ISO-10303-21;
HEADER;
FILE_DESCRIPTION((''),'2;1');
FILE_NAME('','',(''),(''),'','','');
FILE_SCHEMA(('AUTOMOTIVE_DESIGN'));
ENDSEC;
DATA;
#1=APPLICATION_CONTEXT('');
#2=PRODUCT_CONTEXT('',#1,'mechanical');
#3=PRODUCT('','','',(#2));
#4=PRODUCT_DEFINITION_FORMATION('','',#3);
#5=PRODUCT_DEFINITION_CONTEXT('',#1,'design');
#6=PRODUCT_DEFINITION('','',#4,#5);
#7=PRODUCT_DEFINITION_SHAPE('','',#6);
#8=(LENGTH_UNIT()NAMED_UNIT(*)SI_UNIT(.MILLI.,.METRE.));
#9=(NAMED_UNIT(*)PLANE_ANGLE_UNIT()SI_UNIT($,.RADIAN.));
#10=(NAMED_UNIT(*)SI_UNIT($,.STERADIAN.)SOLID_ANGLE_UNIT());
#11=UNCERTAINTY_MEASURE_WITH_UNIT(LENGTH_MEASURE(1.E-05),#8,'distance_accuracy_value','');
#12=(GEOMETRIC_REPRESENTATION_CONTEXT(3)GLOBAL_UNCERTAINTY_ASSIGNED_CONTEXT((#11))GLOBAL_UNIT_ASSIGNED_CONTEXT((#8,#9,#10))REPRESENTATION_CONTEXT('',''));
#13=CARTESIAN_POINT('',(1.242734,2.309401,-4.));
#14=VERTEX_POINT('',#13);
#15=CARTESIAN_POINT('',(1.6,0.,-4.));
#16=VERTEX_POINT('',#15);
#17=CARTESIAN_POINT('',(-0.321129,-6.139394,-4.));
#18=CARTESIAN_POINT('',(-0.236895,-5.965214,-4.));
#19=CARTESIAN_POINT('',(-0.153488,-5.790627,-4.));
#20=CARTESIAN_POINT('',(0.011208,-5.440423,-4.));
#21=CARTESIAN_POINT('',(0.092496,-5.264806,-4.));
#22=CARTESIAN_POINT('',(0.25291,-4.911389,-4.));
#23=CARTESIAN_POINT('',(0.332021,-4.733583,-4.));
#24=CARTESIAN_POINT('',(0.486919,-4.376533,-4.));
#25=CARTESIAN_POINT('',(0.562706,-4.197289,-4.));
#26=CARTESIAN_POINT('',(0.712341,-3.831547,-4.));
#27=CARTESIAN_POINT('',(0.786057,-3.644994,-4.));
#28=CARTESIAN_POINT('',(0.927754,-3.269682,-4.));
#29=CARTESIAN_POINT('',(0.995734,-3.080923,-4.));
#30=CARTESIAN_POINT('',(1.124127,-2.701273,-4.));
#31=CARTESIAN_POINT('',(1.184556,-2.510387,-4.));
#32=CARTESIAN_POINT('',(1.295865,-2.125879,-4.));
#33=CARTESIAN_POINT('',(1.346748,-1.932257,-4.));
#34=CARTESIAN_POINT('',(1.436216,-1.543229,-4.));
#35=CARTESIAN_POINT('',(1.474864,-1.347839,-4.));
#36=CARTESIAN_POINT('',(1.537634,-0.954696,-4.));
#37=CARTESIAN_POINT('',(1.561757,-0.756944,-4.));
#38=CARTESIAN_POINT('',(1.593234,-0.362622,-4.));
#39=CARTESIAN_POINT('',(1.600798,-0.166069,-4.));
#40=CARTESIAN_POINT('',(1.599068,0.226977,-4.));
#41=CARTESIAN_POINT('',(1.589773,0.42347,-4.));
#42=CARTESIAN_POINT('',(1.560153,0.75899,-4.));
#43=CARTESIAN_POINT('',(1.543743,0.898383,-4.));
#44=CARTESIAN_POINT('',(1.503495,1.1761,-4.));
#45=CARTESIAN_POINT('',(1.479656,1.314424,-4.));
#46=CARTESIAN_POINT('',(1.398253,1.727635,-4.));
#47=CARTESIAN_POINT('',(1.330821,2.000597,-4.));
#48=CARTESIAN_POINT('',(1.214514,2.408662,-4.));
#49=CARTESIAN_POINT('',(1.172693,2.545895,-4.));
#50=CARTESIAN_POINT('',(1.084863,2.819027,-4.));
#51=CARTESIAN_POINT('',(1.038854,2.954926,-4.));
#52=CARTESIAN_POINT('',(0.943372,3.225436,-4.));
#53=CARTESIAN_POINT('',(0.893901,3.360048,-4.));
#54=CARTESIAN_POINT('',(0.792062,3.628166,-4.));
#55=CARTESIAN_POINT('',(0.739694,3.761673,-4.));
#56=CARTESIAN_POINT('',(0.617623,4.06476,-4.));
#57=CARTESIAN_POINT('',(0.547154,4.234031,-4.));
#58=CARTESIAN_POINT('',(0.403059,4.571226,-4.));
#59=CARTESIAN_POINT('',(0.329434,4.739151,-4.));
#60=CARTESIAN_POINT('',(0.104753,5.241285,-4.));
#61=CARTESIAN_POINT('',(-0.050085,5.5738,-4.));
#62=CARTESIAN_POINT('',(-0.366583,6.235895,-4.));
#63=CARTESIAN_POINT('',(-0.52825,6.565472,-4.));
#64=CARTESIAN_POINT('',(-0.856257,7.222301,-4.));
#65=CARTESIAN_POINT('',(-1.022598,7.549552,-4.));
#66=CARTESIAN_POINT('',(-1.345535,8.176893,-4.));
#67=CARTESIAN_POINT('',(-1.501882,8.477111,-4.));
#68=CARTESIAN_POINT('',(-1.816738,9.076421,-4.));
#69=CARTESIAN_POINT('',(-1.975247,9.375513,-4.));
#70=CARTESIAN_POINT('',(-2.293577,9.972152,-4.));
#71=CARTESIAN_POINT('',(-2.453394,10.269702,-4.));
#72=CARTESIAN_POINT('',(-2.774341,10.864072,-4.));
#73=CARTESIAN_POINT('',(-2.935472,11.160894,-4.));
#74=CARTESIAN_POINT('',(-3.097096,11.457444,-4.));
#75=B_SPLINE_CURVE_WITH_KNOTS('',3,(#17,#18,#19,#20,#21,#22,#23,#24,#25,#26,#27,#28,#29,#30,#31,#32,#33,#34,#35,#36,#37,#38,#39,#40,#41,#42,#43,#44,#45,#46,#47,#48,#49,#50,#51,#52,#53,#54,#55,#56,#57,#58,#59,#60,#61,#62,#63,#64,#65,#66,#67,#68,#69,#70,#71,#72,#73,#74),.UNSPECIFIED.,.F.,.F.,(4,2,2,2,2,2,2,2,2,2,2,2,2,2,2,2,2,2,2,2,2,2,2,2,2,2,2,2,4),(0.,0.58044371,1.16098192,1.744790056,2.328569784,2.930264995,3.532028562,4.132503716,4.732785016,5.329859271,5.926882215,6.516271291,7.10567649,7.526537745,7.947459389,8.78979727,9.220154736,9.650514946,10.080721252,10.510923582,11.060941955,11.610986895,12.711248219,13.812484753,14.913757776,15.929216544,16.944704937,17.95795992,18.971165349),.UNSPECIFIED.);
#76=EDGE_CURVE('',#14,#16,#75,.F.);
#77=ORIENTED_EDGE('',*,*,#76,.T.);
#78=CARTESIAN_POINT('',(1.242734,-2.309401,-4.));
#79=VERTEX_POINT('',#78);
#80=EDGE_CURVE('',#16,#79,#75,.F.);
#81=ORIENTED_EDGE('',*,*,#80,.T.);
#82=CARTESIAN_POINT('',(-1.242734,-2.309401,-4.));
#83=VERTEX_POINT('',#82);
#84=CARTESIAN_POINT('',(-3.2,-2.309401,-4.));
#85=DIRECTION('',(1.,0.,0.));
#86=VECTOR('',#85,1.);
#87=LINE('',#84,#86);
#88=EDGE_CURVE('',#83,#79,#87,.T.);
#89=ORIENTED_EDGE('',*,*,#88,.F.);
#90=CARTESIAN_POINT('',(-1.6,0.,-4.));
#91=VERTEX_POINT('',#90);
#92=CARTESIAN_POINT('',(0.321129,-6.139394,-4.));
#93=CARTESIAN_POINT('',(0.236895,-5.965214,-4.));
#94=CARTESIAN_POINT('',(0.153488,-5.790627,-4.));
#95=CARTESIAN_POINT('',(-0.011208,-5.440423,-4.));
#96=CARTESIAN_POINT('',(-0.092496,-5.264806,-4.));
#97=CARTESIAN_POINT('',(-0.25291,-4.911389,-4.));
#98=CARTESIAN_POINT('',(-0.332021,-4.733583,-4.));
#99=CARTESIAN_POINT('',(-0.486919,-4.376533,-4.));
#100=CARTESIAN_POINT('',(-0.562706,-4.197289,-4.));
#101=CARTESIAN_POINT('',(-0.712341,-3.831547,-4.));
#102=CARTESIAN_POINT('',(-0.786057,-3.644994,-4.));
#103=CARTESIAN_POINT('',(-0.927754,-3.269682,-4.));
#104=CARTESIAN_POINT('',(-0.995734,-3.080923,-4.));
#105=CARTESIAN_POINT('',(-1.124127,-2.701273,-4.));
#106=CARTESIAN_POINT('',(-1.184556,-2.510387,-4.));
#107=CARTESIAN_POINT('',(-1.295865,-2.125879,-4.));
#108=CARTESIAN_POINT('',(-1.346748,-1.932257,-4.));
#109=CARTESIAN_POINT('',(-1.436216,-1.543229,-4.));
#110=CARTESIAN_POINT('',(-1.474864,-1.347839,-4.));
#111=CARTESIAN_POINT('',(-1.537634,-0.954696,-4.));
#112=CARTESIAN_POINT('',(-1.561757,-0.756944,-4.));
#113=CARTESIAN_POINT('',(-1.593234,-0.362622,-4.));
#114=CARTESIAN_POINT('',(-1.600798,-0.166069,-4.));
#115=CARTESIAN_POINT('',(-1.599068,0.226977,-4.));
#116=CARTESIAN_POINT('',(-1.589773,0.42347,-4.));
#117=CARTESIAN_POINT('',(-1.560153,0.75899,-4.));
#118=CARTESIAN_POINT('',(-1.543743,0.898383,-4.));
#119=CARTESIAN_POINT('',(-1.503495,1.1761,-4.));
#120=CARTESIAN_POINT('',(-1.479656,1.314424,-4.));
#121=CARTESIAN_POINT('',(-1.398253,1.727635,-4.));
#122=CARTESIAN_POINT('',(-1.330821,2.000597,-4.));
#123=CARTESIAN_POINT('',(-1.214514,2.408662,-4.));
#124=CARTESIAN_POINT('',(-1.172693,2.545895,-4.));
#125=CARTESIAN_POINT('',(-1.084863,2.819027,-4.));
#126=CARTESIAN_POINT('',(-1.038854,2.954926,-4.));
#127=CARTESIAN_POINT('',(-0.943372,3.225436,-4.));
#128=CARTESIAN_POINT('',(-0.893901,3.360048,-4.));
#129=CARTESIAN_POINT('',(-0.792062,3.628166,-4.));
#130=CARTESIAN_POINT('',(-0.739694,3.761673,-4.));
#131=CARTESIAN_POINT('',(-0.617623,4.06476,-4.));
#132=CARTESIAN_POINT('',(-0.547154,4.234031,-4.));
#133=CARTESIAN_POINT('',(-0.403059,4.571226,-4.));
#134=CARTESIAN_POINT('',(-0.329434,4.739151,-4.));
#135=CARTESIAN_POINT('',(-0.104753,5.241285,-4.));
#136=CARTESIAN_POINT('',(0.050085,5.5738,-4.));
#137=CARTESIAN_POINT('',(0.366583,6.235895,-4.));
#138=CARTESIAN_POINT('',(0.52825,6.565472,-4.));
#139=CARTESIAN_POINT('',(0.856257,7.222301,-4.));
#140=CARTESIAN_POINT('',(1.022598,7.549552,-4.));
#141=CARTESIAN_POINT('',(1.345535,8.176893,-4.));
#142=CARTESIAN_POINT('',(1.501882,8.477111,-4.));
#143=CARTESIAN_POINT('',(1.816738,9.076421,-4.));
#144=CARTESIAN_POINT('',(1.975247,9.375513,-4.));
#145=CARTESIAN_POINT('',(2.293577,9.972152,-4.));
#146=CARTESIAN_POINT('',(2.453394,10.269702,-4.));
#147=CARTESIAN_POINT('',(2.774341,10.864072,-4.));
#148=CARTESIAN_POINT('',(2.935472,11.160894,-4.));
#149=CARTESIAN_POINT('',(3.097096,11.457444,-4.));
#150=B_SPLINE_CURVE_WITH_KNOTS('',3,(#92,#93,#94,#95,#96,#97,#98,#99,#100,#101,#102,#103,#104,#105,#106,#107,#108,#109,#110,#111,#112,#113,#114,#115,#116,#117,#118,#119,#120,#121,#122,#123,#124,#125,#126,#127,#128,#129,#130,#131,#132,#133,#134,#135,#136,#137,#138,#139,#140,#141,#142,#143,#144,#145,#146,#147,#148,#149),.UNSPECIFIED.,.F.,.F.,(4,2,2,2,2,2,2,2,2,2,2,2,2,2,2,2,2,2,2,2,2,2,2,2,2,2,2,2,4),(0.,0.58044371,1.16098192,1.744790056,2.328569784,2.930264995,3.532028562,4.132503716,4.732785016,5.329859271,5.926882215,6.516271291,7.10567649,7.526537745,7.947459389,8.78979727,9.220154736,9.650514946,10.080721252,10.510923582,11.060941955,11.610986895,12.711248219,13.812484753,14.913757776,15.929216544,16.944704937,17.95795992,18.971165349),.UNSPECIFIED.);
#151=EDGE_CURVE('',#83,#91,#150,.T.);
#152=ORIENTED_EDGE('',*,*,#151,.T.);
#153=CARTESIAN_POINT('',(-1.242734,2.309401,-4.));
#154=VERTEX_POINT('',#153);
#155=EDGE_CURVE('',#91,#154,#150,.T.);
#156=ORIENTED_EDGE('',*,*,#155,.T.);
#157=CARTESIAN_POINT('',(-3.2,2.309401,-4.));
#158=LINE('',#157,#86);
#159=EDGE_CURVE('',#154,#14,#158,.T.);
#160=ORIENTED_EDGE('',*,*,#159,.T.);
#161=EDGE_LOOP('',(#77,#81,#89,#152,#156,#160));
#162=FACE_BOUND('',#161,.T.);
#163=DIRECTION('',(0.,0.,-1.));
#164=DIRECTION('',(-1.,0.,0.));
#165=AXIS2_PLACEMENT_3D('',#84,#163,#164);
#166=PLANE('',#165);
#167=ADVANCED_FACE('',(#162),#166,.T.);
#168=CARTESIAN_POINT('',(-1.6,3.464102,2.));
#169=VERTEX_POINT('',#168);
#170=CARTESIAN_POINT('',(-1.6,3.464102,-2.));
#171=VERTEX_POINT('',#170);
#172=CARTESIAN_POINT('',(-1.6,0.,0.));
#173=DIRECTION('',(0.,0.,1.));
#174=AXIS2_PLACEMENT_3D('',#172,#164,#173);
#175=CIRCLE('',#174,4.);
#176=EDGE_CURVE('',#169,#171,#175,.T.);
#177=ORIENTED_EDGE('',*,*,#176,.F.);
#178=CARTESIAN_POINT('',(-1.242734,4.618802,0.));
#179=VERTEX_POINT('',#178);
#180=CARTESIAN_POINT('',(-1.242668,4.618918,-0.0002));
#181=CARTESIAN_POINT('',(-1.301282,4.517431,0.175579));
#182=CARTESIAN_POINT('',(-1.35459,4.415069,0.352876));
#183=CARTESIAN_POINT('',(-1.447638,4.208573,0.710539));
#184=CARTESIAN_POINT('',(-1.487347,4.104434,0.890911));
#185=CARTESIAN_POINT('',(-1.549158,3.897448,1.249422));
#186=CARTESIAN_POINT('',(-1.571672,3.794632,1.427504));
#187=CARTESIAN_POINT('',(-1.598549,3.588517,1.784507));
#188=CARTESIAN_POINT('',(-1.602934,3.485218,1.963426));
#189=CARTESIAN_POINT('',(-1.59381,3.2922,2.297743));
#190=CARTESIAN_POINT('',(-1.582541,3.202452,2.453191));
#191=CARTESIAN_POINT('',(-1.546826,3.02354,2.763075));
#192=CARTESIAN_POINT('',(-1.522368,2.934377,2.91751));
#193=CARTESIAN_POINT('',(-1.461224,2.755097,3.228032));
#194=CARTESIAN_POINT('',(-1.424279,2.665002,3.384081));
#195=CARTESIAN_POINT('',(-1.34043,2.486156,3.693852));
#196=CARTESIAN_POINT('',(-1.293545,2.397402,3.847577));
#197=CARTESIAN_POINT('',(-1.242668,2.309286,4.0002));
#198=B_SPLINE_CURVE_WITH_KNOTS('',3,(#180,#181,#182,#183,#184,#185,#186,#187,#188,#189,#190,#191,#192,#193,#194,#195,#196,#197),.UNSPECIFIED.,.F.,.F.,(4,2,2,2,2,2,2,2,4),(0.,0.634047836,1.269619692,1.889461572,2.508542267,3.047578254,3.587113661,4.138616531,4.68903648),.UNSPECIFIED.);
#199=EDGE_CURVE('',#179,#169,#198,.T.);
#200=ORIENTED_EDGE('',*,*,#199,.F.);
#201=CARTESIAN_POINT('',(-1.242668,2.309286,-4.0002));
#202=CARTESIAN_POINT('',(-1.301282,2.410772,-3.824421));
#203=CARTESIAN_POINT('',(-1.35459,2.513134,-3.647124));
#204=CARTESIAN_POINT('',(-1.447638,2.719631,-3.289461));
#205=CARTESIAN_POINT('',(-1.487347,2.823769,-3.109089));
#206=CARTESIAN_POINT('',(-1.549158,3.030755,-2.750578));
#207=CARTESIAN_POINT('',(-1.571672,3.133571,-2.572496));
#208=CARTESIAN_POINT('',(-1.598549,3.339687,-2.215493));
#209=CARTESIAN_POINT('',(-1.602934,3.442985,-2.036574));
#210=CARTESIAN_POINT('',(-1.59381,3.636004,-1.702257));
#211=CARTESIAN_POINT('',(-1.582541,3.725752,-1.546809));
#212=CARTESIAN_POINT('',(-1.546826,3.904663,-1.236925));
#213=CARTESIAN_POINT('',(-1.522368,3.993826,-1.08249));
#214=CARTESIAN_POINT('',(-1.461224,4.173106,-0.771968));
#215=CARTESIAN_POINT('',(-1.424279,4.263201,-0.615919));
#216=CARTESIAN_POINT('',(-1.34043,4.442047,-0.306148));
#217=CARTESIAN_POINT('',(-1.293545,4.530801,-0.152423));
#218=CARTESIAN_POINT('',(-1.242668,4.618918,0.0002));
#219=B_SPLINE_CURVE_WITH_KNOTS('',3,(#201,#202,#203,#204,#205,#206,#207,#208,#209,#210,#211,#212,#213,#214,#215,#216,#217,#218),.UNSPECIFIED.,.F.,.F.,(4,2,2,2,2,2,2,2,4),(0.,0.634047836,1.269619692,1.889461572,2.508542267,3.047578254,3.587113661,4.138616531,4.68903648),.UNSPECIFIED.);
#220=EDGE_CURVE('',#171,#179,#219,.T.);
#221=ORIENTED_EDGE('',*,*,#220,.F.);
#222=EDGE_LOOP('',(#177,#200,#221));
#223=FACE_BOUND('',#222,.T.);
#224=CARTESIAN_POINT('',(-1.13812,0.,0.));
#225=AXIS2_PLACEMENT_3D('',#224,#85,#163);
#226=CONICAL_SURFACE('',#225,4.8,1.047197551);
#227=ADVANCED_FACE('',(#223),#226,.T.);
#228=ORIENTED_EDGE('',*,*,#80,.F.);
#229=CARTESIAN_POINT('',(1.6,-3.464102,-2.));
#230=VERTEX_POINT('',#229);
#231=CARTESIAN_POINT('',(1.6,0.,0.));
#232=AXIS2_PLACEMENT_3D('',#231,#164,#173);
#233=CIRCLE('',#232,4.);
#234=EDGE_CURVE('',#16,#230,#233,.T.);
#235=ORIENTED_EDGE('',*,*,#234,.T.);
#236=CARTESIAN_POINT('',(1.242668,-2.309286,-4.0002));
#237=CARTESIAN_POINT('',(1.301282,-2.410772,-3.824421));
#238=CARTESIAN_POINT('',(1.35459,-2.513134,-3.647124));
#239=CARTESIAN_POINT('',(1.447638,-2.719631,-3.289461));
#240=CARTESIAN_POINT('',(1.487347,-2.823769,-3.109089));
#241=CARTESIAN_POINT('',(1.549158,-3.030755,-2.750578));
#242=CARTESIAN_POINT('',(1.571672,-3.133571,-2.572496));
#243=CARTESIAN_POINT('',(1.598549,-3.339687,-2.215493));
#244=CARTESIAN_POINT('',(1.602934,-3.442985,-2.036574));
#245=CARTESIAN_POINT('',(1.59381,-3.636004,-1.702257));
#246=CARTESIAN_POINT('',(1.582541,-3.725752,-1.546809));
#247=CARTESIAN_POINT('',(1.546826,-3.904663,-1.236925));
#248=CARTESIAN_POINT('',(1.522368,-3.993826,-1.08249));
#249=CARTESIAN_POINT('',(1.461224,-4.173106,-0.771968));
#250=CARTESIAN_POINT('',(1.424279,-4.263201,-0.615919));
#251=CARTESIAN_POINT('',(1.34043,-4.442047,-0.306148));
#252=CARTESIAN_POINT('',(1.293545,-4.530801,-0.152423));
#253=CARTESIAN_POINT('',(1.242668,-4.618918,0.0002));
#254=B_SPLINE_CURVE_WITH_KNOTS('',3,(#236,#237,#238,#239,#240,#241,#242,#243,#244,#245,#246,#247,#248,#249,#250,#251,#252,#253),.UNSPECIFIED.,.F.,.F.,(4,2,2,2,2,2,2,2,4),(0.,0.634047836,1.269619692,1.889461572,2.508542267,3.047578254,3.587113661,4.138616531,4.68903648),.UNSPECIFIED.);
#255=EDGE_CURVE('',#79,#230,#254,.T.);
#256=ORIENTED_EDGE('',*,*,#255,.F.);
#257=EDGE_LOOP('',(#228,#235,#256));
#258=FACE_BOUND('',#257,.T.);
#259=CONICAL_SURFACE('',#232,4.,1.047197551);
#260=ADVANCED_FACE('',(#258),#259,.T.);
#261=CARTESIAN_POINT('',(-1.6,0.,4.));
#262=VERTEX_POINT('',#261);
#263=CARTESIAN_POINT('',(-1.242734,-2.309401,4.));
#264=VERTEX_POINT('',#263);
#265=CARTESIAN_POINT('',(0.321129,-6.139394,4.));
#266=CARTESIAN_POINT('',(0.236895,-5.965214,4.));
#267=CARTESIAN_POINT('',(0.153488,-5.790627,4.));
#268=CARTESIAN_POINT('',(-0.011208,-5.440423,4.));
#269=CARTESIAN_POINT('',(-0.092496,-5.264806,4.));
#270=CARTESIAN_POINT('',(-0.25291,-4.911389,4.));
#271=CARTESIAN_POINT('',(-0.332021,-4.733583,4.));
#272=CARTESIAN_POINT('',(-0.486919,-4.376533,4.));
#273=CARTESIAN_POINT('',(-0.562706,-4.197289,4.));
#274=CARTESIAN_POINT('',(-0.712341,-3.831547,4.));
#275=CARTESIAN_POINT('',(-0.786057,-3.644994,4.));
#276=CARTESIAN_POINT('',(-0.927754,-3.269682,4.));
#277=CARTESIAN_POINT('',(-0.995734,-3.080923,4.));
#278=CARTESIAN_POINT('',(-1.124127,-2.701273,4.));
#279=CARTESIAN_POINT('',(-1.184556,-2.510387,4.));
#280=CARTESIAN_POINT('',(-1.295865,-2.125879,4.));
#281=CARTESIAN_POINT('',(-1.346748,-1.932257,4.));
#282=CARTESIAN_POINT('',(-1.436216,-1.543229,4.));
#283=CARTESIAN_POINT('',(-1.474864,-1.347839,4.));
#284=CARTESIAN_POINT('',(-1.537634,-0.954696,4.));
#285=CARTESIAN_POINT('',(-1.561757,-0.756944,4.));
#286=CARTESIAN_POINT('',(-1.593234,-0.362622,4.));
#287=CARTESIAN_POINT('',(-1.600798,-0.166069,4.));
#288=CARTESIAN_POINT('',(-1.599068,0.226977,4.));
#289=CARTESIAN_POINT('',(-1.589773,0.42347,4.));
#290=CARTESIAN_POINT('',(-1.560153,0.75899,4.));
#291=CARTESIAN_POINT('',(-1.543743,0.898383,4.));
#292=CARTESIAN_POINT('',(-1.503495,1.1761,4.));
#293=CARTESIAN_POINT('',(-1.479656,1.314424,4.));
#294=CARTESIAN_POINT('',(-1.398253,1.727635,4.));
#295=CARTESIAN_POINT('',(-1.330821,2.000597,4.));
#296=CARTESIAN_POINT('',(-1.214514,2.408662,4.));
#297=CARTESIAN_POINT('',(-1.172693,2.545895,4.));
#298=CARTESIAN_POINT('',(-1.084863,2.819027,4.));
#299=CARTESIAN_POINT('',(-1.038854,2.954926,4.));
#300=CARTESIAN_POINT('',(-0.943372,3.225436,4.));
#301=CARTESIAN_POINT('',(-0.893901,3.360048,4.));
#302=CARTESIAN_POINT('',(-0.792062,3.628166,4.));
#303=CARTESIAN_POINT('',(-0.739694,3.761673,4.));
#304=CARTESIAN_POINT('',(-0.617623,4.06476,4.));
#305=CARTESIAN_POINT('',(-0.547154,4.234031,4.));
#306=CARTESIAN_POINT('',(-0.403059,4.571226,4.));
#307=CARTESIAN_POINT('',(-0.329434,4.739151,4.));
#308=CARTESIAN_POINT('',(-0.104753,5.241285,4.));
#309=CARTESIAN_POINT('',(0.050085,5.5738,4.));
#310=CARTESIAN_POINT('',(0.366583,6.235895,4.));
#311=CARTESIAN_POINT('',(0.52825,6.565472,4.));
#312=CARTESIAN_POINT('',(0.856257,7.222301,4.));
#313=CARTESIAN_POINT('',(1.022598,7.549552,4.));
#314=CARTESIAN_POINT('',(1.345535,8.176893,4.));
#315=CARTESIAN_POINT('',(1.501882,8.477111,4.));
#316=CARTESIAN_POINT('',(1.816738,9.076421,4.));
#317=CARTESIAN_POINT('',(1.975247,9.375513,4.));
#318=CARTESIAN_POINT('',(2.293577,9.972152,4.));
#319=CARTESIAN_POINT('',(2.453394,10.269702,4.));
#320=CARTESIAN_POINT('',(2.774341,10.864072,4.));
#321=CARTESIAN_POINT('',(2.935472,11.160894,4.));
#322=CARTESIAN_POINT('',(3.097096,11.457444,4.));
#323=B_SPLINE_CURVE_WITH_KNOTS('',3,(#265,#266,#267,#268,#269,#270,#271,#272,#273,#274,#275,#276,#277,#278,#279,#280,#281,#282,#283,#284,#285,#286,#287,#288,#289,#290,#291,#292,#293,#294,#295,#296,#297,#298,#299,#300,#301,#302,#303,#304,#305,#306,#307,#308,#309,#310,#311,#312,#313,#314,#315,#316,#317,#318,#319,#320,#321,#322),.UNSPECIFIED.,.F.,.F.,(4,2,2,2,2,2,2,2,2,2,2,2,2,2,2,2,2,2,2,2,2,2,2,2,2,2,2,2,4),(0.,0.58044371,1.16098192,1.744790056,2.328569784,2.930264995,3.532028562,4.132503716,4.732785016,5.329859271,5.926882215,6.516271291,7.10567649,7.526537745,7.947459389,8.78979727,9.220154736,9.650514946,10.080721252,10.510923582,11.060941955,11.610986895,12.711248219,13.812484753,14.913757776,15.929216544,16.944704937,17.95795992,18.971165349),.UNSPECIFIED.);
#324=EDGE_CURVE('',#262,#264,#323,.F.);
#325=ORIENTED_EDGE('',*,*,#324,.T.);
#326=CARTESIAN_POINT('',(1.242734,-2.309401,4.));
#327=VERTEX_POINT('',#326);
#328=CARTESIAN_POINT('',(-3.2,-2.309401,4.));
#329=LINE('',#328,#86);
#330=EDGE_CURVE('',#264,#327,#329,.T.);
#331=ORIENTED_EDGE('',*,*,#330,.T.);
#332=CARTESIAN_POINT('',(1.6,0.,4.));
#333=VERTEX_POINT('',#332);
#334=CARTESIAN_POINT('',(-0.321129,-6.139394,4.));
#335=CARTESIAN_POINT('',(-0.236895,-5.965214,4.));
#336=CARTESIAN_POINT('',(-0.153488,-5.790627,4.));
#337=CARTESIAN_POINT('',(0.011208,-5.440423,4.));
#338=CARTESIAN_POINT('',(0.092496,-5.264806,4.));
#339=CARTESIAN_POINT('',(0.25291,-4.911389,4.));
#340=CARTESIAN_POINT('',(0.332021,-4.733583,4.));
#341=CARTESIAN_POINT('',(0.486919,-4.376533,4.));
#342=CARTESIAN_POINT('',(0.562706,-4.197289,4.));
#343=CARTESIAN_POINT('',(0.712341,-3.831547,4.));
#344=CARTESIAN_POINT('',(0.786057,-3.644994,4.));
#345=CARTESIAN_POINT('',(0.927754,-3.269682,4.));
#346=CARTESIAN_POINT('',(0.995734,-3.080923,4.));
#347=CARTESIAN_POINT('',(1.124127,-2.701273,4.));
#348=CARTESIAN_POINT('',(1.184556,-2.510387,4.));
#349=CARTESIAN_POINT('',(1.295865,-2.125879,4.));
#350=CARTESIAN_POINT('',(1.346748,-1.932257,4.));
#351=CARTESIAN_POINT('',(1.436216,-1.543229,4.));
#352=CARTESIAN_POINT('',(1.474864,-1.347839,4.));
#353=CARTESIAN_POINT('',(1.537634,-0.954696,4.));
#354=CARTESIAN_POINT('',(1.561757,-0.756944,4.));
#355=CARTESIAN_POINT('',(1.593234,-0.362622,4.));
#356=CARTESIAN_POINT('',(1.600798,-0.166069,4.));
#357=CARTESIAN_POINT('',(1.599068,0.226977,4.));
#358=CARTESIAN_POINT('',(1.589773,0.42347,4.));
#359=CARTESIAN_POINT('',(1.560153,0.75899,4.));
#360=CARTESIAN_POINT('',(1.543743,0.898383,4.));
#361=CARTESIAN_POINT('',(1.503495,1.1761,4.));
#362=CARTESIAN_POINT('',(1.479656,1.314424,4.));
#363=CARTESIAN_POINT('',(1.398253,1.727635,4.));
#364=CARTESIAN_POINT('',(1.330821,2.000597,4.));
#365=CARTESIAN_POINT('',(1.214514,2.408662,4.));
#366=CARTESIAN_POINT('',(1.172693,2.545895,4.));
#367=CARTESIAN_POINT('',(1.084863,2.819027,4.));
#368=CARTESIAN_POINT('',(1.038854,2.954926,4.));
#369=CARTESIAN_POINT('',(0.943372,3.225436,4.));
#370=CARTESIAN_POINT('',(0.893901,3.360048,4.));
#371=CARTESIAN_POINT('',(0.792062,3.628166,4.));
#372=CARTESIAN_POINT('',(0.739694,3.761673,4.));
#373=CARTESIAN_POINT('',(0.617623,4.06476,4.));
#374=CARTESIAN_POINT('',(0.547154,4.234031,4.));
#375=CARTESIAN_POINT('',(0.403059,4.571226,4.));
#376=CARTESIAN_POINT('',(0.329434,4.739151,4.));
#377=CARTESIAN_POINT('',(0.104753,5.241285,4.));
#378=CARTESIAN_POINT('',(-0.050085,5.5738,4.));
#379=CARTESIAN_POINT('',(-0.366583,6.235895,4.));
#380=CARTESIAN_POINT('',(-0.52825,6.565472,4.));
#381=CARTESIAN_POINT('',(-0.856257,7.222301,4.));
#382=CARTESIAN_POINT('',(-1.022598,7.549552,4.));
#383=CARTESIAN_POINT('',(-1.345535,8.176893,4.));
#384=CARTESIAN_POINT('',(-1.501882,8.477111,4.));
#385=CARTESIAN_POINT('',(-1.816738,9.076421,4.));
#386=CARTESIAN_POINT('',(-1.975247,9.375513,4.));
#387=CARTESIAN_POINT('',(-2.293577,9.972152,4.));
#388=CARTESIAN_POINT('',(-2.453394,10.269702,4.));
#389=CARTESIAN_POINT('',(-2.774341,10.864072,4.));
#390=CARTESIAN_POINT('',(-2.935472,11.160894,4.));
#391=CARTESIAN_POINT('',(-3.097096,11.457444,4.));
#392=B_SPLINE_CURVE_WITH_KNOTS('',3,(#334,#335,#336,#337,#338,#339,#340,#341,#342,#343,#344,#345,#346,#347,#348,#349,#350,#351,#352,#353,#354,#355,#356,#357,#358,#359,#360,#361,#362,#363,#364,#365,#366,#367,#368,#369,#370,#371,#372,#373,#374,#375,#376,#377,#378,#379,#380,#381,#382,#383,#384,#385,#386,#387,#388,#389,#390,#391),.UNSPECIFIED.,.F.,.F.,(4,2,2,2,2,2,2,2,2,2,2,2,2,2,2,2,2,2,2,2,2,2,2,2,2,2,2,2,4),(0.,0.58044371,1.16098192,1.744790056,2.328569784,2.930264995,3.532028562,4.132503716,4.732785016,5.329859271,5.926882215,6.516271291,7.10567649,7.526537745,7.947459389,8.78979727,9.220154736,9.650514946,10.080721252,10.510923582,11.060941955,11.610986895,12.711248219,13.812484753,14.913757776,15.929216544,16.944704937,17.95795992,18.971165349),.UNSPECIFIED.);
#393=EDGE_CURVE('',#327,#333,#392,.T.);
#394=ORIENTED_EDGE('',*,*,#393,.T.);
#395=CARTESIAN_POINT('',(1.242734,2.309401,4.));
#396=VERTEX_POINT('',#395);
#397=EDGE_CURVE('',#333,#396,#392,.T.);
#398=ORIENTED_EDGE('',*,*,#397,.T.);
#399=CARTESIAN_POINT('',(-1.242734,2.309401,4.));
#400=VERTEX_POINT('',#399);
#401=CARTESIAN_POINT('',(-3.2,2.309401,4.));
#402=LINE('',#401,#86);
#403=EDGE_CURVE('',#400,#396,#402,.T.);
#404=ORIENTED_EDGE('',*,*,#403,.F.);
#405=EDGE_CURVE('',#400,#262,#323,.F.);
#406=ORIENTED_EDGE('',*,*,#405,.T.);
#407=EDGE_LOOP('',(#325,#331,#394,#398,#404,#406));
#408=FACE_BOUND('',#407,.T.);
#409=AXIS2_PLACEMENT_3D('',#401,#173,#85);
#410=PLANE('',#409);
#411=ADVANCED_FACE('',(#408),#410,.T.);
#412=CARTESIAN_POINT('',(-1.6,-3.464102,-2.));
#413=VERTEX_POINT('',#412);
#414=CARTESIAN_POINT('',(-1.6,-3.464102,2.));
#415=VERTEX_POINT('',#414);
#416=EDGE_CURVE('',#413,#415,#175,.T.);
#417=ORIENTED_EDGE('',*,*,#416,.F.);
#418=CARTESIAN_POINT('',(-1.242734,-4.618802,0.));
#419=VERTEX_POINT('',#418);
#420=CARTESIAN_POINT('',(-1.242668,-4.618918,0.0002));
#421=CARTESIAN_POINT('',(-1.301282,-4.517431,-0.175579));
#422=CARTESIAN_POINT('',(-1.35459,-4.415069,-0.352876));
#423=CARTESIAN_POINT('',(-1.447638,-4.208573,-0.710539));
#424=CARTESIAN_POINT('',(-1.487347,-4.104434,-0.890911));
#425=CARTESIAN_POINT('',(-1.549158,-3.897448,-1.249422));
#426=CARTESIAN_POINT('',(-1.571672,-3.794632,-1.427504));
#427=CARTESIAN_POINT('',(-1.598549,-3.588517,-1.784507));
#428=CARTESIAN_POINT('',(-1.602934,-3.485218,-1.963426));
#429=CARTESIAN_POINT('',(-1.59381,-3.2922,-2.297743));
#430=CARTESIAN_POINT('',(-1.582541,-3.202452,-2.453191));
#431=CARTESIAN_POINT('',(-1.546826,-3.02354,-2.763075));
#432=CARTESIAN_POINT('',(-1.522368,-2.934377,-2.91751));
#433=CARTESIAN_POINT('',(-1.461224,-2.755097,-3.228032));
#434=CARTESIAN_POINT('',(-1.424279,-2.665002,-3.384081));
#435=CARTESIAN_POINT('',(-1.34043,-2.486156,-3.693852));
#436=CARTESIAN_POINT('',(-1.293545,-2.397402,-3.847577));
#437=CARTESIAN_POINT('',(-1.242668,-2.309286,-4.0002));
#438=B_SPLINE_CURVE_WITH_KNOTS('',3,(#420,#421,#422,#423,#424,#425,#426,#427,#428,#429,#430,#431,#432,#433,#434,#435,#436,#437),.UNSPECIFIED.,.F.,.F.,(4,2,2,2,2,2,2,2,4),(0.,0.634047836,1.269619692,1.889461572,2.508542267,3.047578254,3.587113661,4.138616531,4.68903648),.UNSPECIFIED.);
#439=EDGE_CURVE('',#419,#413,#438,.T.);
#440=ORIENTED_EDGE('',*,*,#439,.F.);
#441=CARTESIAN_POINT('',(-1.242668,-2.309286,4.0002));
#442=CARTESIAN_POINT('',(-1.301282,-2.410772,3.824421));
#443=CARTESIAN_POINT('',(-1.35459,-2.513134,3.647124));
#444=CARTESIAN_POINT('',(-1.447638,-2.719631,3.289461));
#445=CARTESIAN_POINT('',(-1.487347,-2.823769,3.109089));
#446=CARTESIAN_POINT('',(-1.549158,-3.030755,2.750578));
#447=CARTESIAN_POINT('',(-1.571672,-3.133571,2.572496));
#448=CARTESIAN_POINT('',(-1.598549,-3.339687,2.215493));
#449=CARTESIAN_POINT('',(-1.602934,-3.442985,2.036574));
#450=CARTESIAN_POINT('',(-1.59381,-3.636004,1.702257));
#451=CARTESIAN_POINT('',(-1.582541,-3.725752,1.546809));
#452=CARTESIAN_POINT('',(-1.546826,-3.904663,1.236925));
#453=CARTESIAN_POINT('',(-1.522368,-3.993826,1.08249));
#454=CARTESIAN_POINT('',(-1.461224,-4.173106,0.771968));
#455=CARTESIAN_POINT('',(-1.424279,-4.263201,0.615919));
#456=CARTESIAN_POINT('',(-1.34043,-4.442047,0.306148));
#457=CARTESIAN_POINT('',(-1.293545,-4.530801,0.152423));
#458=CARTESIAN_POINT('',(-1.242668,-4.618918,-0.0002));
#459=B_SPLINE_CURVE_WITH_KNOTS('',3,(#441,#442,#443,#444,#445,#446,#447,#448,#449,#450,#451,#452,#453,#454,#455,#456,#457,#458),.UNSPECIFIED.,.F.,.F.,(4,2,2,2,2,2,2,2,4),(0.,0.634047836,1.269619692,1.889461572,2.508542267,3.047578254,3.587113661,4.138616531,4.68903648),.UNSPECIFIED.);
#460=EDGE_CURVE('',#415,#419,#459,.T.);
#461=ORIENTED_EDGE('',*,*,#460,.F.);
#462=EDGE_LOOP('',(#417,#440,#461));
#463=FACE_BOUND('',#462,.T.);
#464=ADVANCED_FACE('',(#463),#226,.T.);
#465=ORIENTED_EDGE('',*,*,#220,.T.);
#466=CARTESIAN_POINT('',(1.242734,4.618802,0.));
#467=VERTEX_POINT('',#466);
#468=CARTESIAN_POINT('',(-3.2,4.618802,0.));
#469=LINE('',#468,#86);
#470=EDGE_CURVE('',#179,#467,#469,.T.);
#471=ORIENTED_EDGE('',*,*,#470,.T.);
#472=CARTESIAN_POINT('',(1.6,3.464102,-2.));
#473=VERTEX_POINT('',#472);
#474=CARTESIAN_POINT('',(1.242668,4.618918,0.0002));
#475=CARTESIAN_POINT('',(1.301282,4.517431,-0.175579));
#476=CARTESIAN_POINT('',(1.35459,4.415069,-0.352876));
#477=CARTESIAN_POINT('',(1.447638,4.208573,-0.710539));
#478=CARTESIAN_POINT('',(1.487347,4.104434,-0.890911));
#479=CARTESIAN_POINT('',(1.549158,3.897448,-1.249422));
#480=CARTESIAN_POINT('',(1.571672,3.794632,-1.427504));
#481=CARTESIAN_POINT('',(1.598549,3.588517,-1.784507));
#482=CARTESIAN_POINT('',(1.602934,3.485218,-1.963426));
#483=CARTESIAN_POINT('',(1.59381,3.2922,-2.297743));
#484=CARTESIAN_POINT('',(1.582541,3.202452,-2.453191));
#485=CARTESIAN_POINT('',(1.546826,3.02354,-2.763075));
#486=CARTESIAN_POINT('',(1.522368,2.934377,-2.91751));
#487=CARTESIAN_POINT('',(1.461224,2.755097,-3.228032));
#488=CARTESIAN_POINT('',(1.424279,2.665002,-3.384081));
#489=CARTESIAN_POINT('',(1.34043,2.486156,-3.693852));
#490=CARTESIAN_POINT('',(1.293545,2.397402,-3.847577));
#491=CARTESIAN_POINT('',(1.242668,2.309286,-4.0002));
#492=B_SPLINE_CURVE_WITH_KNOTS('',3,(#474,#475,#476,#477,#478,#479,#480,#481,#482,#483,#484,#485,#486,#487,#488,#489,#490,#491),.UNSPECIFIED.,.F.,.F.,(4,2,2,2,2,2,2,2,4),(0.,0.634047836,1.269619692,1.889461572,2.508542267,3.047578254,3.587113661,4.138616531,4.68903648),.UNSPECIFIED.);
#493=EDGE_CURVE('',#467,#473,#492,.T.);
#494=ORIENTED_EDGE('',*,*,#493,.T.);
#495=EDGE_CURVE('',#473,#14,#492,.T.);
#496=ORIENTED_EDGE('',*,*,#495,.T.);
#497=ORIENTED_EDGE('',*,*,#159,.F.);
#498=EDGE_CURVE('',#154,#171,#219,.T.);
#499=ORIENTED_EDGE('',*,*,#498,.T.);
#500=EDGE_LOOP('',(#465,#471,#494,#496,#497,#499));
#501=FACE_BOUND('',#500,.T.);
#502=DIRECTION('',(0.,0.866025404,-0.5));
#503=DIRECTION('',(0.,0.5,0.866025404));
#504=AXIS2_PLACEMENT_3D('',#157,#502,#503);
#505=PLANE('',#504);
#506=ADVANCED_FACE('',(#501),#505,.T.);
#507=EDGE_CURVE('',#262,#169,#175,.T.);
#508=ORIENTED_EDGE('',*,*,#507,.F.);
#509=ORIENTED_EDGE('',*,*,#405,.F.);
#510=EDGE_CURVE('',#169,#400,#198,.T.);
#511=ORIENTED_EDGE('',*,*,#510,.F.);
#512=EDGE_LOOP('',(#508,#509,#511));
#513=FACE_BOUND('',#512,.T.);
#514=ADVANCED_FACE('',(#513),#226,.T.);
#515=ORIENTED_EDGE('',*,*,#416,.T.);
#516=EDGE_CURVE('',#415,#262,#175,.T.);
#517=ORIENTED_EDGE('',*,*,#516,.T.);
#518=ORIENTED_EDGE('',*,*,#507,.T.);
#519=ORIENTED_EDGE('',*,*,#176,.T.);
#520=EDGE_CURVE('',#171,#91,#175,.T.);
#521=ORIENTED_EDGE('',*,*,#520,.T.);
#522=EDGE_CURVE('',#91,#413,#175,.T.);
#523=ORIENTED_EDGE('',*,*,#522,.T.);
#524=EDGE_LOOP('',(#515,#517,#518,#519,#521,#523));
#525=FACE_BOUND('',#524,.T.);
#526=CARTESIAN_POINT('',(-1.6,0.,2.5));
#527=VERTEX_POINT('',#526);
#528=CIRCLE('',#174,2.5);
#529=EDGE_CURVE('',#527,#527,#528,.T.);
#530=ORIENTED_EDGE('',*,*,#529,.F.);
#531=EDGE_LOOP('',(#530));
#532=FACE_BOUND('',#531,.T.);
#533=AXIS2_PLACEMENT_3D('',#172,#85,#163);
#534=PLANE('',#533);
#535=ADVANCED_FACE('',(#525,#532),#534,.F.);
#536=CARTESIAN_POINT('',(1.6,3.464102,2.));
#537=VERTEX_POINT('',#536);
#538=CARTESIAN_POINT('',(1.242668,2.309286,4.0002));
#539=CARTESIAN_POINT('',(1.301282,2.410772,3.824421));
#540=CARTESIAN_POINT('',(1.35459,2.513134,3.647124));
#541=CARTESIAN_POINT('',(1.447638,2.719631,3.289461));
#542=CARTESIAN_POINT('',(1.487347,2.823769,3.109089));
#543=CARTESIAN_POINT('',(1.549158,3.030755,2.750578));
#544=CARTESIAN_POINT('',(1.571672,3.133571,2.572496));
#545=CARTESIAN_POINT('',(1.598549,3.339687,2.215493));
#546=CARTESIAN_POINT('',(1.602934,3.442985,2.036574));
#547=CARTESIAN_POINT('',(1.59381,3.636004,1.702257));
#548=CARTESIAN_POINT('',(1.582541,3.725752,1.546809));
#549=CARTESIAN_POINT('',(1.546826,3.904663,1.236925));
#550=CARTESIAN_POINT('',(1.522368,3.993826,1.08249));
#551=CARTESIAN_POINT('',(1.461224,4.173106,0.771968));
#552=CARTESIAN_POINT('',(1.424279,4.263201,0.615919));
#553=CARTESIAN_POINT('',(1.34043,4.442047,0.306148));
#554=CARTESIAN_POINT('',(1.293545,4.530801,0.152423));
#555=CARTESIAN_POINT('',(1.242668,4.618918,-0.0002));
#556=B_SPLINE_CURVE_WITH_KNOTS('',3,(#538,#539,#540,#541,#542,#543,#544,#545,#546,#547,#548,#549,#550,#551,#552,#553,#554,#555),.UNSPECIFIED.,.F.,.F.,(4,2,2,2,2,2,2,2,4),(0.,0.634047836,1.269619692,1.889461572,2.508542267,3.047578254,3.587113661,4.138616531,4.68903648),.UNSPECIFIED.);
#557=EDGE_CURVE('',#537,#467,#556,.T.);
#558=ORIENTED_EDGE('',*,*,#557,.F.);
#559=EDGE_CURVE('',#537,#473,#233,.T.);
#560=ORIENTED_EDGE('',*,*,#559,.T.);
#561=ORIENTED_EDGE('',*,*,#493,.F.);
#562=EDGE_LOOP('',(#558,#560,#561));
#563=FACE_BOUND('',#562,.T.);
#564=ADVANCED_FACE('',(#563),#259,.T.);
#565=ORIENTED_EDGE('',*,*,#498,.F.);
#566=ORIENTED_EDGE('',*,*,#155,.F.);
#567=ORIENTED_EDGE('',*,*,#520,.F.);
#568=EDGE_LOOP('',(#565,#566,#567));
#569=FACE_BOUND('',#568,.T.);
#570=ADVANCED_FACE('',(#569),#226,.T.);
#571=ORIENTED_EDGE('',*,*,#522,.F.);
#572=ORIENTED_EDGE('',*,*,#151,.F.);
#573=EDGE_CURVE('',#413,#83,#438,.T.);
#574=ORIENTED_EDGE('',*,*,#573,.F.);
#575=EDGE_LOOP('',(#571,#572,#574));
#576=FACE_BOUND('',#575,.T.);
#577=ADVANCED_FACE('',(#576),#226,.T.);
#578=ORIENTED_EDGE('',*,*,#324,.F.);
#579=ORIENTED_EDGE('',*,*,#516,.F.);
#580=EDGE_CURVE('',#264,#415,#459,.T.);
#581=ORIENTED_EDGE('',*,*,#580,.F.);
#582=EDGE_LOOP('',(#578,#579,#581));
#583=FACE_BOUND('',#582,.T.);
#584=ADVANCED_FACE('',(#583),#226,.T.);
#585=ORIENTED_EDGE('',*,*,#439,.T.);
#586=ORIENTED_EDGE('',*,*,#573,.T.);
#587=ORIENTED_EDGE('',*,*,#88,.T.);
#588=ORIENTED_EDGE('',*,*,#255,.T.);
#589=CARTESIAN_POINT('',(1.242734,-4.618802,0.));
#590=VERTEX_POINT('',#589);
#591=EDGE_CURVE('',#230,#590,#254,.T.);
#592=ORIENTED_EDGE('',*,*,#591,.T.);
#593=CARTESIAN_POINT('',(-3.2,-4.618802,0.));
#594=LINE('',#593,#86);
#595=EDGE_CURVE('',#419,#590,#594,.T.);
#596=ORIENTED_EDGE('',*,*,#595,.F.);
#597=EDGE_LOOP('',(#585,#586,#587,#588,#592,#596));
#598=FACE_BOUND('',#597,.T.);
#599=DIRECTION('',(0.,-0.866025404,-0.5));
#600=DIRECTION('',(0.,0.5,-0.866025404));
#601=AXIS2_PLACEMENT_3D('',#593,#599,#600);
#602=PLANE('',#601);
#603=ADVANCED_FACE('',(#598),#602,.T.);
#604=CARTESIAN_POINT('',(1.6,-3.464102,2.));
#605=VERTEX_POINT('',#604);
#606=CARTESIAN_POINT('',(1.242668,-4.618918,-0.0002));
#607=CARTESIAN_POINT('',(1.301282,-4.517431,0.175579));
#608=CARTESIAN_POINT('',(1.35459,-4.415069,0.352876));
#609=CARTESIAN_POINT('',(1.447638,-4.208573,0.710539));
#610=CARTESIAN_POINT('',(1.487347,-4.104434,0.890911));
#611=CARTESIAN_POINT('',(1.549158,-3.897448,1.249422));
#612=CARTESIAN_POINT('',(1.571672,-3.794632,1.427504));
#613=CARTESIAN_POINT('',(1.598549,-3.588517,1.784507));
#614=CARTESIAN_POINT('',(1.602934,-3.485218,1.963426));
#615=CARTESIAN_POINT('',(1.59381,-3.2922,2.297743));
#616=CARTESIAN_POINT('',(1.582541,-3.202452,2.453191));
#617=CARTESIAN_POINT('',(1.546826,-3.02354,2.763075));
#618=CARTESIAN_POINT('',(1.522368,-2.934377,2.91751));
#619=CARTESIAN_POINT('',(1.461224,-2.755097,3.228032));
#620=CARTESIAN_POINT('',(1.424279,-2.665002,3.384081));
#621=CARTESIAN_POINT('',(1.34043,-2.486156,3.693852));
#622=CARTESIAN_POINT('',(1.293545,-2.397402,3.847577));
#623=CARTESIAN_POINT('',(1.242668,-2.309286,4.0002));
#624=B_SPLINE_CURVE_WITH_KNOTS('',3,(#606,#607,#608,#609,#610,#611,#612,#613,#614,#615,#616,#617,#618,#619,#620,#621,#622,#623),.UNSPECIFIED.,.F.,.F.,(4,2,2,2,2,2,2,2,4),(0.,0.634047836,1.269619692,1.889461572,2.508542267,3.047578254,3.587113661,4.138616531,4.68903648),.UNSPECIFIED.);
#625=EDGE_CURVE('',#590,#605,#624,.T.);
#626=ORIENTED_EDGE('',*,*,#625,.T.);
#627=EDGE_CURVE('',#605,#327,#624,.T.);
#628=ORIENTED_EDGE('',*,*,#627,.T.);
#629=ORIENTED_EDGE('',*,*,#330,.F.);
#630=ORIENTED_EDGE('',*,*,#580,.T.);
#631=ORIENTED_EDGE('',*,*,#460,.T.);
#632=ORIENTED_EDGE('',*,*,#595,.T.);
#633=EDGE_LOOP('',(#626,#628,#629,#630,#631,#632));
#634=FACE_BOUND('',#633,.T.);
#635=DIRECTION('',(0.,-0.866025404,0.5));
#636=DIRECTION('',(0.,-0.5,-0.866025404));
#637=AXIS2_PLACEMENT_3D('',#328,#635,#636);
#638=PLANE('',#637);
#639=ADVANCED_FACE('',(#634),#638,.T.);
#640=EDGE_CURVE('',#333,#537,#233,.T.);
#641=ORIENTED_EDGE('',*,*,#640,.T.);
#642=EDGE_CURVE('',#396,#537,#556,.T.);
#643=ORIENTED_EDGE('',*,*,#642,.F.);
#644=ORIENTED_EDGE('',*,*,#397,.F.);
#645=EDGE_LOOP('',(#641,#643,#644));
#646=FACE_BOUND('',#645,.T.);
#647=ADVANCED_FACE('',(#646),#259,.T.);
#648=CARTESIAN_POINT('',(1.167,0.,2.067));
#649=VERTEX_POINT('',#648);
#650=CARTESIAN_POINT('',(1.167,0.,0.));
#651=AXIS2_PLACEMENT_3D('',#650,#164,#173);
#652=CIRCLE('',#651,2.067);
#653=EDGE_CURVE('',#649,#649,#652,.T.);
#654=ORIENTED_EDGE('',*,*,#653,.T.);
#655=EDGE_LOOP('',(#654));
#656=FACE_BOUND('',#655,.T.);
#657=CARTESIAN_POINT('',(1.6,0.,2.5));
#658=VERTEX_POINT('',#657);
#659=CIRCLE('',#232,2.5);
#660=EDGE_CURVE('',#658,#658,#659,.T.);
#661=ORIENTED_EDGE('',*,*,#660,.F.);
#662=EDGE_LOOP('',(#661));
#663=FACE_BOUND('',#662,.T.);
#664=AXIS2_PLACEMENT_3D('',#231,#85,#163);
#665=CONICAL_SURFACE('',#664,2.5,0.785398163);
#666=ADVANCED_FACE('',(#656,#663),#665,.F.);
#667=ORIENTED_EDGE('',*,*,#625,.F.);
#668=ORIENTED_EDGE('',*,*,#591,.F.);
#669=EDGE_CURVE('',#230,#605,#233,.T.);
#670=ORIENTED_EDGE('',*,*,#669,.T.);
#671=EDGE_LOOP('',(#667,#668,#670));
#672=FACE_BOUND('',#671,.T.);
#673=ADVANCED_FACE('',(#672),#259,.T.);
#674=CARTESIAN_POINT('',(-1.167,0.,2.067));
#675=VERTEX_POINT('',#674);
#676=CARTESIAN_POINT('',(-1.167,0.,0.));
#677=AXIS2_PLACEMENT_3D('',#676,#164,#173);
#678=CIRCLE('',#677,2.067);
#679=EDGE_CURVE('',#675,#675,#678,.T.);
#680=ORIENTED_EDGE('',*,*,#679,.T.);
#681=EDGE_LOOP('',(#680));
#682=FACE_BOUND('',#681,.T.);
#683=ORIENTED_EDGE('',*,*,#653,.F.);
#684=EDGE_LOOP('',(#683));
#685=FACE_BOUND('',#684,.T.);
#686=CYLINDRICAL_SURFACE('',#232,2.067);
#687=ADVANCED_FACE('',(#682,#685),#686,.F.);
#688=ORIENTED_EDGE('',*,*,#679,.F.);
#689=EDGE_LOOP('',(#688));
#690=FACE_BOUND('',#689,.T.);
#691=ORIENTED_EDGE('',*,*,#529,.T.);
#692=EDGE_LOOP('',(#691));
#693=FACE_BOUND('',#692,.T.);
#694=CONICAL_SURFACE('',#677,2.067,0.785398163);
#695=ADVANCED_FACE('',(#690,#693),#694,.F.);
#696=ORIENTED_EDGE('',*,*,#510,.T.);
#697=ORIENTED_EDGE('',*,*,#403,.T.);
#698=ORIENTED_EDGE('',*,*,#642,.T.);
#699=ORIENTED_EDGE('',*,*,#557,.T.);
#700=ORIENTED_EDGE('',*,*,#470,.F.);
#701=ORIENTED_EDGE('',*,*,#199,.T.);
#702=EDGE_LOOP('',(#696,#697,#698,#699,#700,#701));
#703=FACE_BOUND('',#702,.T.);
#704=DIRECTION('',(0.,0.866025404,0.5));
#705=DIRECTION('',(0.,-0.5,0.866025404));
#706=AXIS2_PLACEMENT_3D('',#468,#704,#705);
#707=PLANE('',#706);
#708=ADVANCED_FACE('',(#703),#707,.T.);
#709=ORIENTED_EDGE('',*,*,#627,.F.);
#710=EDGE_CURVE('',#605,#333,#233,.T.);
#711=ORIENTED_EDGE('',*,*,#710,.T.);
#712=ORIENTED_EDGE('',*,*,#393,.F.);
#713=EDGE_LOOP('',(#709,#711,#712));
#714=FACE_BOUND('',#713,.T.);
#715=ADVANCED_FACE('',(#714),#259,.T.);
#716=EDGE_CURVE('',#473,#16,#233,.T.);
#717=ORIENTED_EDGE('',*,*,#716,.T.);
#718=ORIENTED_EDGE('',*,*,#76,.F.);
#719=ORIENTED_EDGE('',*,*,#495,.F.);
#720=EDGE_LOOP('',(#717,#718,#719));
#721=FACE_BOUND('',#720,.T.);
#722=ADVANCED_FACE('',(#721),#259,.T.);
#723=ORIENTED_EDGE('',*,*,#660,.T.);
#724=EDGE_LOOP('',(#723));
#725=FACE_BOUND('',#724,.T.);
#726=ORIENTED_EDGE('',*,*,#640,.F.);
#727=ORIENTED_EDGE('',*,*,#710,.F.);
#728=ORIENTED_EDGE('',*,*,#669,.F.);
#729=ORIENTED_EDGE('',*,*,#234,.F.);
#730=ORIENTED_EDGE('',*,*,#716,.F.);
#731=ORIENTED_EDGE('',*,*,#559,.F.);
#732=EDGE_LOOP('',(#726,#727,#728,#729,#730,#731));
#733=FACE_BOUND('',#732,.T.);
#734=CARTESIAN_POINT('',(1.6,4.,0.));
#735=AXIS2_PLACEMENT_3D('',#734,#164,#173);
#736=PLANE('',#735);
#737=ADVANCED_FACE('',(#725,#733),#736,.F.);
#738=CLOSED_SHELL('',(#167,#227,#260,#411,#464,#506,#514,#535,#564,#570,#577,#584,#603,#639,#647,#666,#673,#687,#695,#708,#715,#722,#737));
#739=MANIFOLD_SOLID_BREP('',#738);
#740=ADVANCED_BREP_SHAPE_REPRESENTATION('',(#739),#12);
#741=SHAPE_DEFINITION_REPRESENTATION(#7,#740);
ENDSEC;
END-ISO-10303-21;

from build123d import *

# Parameters (mm, degrees)
CUT_EXTRUDE_1_DEPTH      = 3.2
CUT_EXTRUDE_1_DEPTH_BACK = 3.2
SKETCH_2_W               = 18.4
SKETCH_2_H               = 18.4


with BuildPart() as part:
    # 草图1 → 旋转1 (revolve)
    with BuildSketch(Plane.XY):
        Polygon((-1.6, 0), (-1.6, 4), (-1.138119785, 4.8), (1.138119785, 4.8), (1.6, 4), (1.6, 0), align=None)
    revolve(axis=Axis((1.6, 0, 0), (-1, 0, 0)))

    # 草图2 → 切除-拉伸1 (cut, two sides: drawn at the far end of the back side and taken through both)
    with BuildSketch(Plane(origin=(0, 0, 0), x_dir=(0, 0, -1), z_dir=(1, 0, 0)).offset(-CUT_EXTRUDE_1_DEPTH_BACK)):
        Rectangle(SKETCH_2_W, SKETCH_2_H)
        Polygon((-4, 2.309401077), (-4, -2.309401077), (0, -4.618802154), (4, -2.309401077), (4, 2.309401077), (0, 4.618802154), align=None, mode=Mode.SUBTRACT)
    extrude(amount=CUT_EXTRUDE_1_DEPTH + CUT_EXTRUDE_1_DEPTH_BACK, mode=Mode.SUBTRACT)

    # 草图3 → 切除-旋转1 (revolve, cut)
    with BuildSketch(Plane.XY):
        Polygon((-1.6, 0), (-1.6, 2.5), (-1.167, 2.067), (1.167, 2.067), (1.6, 2.5), (1.6, 0), align=None)
    revolve(axis=Axis((1.6, 0, 0), (-1, 0, 0)), mode=Mode.SUBTRACT)


solid = part.part
